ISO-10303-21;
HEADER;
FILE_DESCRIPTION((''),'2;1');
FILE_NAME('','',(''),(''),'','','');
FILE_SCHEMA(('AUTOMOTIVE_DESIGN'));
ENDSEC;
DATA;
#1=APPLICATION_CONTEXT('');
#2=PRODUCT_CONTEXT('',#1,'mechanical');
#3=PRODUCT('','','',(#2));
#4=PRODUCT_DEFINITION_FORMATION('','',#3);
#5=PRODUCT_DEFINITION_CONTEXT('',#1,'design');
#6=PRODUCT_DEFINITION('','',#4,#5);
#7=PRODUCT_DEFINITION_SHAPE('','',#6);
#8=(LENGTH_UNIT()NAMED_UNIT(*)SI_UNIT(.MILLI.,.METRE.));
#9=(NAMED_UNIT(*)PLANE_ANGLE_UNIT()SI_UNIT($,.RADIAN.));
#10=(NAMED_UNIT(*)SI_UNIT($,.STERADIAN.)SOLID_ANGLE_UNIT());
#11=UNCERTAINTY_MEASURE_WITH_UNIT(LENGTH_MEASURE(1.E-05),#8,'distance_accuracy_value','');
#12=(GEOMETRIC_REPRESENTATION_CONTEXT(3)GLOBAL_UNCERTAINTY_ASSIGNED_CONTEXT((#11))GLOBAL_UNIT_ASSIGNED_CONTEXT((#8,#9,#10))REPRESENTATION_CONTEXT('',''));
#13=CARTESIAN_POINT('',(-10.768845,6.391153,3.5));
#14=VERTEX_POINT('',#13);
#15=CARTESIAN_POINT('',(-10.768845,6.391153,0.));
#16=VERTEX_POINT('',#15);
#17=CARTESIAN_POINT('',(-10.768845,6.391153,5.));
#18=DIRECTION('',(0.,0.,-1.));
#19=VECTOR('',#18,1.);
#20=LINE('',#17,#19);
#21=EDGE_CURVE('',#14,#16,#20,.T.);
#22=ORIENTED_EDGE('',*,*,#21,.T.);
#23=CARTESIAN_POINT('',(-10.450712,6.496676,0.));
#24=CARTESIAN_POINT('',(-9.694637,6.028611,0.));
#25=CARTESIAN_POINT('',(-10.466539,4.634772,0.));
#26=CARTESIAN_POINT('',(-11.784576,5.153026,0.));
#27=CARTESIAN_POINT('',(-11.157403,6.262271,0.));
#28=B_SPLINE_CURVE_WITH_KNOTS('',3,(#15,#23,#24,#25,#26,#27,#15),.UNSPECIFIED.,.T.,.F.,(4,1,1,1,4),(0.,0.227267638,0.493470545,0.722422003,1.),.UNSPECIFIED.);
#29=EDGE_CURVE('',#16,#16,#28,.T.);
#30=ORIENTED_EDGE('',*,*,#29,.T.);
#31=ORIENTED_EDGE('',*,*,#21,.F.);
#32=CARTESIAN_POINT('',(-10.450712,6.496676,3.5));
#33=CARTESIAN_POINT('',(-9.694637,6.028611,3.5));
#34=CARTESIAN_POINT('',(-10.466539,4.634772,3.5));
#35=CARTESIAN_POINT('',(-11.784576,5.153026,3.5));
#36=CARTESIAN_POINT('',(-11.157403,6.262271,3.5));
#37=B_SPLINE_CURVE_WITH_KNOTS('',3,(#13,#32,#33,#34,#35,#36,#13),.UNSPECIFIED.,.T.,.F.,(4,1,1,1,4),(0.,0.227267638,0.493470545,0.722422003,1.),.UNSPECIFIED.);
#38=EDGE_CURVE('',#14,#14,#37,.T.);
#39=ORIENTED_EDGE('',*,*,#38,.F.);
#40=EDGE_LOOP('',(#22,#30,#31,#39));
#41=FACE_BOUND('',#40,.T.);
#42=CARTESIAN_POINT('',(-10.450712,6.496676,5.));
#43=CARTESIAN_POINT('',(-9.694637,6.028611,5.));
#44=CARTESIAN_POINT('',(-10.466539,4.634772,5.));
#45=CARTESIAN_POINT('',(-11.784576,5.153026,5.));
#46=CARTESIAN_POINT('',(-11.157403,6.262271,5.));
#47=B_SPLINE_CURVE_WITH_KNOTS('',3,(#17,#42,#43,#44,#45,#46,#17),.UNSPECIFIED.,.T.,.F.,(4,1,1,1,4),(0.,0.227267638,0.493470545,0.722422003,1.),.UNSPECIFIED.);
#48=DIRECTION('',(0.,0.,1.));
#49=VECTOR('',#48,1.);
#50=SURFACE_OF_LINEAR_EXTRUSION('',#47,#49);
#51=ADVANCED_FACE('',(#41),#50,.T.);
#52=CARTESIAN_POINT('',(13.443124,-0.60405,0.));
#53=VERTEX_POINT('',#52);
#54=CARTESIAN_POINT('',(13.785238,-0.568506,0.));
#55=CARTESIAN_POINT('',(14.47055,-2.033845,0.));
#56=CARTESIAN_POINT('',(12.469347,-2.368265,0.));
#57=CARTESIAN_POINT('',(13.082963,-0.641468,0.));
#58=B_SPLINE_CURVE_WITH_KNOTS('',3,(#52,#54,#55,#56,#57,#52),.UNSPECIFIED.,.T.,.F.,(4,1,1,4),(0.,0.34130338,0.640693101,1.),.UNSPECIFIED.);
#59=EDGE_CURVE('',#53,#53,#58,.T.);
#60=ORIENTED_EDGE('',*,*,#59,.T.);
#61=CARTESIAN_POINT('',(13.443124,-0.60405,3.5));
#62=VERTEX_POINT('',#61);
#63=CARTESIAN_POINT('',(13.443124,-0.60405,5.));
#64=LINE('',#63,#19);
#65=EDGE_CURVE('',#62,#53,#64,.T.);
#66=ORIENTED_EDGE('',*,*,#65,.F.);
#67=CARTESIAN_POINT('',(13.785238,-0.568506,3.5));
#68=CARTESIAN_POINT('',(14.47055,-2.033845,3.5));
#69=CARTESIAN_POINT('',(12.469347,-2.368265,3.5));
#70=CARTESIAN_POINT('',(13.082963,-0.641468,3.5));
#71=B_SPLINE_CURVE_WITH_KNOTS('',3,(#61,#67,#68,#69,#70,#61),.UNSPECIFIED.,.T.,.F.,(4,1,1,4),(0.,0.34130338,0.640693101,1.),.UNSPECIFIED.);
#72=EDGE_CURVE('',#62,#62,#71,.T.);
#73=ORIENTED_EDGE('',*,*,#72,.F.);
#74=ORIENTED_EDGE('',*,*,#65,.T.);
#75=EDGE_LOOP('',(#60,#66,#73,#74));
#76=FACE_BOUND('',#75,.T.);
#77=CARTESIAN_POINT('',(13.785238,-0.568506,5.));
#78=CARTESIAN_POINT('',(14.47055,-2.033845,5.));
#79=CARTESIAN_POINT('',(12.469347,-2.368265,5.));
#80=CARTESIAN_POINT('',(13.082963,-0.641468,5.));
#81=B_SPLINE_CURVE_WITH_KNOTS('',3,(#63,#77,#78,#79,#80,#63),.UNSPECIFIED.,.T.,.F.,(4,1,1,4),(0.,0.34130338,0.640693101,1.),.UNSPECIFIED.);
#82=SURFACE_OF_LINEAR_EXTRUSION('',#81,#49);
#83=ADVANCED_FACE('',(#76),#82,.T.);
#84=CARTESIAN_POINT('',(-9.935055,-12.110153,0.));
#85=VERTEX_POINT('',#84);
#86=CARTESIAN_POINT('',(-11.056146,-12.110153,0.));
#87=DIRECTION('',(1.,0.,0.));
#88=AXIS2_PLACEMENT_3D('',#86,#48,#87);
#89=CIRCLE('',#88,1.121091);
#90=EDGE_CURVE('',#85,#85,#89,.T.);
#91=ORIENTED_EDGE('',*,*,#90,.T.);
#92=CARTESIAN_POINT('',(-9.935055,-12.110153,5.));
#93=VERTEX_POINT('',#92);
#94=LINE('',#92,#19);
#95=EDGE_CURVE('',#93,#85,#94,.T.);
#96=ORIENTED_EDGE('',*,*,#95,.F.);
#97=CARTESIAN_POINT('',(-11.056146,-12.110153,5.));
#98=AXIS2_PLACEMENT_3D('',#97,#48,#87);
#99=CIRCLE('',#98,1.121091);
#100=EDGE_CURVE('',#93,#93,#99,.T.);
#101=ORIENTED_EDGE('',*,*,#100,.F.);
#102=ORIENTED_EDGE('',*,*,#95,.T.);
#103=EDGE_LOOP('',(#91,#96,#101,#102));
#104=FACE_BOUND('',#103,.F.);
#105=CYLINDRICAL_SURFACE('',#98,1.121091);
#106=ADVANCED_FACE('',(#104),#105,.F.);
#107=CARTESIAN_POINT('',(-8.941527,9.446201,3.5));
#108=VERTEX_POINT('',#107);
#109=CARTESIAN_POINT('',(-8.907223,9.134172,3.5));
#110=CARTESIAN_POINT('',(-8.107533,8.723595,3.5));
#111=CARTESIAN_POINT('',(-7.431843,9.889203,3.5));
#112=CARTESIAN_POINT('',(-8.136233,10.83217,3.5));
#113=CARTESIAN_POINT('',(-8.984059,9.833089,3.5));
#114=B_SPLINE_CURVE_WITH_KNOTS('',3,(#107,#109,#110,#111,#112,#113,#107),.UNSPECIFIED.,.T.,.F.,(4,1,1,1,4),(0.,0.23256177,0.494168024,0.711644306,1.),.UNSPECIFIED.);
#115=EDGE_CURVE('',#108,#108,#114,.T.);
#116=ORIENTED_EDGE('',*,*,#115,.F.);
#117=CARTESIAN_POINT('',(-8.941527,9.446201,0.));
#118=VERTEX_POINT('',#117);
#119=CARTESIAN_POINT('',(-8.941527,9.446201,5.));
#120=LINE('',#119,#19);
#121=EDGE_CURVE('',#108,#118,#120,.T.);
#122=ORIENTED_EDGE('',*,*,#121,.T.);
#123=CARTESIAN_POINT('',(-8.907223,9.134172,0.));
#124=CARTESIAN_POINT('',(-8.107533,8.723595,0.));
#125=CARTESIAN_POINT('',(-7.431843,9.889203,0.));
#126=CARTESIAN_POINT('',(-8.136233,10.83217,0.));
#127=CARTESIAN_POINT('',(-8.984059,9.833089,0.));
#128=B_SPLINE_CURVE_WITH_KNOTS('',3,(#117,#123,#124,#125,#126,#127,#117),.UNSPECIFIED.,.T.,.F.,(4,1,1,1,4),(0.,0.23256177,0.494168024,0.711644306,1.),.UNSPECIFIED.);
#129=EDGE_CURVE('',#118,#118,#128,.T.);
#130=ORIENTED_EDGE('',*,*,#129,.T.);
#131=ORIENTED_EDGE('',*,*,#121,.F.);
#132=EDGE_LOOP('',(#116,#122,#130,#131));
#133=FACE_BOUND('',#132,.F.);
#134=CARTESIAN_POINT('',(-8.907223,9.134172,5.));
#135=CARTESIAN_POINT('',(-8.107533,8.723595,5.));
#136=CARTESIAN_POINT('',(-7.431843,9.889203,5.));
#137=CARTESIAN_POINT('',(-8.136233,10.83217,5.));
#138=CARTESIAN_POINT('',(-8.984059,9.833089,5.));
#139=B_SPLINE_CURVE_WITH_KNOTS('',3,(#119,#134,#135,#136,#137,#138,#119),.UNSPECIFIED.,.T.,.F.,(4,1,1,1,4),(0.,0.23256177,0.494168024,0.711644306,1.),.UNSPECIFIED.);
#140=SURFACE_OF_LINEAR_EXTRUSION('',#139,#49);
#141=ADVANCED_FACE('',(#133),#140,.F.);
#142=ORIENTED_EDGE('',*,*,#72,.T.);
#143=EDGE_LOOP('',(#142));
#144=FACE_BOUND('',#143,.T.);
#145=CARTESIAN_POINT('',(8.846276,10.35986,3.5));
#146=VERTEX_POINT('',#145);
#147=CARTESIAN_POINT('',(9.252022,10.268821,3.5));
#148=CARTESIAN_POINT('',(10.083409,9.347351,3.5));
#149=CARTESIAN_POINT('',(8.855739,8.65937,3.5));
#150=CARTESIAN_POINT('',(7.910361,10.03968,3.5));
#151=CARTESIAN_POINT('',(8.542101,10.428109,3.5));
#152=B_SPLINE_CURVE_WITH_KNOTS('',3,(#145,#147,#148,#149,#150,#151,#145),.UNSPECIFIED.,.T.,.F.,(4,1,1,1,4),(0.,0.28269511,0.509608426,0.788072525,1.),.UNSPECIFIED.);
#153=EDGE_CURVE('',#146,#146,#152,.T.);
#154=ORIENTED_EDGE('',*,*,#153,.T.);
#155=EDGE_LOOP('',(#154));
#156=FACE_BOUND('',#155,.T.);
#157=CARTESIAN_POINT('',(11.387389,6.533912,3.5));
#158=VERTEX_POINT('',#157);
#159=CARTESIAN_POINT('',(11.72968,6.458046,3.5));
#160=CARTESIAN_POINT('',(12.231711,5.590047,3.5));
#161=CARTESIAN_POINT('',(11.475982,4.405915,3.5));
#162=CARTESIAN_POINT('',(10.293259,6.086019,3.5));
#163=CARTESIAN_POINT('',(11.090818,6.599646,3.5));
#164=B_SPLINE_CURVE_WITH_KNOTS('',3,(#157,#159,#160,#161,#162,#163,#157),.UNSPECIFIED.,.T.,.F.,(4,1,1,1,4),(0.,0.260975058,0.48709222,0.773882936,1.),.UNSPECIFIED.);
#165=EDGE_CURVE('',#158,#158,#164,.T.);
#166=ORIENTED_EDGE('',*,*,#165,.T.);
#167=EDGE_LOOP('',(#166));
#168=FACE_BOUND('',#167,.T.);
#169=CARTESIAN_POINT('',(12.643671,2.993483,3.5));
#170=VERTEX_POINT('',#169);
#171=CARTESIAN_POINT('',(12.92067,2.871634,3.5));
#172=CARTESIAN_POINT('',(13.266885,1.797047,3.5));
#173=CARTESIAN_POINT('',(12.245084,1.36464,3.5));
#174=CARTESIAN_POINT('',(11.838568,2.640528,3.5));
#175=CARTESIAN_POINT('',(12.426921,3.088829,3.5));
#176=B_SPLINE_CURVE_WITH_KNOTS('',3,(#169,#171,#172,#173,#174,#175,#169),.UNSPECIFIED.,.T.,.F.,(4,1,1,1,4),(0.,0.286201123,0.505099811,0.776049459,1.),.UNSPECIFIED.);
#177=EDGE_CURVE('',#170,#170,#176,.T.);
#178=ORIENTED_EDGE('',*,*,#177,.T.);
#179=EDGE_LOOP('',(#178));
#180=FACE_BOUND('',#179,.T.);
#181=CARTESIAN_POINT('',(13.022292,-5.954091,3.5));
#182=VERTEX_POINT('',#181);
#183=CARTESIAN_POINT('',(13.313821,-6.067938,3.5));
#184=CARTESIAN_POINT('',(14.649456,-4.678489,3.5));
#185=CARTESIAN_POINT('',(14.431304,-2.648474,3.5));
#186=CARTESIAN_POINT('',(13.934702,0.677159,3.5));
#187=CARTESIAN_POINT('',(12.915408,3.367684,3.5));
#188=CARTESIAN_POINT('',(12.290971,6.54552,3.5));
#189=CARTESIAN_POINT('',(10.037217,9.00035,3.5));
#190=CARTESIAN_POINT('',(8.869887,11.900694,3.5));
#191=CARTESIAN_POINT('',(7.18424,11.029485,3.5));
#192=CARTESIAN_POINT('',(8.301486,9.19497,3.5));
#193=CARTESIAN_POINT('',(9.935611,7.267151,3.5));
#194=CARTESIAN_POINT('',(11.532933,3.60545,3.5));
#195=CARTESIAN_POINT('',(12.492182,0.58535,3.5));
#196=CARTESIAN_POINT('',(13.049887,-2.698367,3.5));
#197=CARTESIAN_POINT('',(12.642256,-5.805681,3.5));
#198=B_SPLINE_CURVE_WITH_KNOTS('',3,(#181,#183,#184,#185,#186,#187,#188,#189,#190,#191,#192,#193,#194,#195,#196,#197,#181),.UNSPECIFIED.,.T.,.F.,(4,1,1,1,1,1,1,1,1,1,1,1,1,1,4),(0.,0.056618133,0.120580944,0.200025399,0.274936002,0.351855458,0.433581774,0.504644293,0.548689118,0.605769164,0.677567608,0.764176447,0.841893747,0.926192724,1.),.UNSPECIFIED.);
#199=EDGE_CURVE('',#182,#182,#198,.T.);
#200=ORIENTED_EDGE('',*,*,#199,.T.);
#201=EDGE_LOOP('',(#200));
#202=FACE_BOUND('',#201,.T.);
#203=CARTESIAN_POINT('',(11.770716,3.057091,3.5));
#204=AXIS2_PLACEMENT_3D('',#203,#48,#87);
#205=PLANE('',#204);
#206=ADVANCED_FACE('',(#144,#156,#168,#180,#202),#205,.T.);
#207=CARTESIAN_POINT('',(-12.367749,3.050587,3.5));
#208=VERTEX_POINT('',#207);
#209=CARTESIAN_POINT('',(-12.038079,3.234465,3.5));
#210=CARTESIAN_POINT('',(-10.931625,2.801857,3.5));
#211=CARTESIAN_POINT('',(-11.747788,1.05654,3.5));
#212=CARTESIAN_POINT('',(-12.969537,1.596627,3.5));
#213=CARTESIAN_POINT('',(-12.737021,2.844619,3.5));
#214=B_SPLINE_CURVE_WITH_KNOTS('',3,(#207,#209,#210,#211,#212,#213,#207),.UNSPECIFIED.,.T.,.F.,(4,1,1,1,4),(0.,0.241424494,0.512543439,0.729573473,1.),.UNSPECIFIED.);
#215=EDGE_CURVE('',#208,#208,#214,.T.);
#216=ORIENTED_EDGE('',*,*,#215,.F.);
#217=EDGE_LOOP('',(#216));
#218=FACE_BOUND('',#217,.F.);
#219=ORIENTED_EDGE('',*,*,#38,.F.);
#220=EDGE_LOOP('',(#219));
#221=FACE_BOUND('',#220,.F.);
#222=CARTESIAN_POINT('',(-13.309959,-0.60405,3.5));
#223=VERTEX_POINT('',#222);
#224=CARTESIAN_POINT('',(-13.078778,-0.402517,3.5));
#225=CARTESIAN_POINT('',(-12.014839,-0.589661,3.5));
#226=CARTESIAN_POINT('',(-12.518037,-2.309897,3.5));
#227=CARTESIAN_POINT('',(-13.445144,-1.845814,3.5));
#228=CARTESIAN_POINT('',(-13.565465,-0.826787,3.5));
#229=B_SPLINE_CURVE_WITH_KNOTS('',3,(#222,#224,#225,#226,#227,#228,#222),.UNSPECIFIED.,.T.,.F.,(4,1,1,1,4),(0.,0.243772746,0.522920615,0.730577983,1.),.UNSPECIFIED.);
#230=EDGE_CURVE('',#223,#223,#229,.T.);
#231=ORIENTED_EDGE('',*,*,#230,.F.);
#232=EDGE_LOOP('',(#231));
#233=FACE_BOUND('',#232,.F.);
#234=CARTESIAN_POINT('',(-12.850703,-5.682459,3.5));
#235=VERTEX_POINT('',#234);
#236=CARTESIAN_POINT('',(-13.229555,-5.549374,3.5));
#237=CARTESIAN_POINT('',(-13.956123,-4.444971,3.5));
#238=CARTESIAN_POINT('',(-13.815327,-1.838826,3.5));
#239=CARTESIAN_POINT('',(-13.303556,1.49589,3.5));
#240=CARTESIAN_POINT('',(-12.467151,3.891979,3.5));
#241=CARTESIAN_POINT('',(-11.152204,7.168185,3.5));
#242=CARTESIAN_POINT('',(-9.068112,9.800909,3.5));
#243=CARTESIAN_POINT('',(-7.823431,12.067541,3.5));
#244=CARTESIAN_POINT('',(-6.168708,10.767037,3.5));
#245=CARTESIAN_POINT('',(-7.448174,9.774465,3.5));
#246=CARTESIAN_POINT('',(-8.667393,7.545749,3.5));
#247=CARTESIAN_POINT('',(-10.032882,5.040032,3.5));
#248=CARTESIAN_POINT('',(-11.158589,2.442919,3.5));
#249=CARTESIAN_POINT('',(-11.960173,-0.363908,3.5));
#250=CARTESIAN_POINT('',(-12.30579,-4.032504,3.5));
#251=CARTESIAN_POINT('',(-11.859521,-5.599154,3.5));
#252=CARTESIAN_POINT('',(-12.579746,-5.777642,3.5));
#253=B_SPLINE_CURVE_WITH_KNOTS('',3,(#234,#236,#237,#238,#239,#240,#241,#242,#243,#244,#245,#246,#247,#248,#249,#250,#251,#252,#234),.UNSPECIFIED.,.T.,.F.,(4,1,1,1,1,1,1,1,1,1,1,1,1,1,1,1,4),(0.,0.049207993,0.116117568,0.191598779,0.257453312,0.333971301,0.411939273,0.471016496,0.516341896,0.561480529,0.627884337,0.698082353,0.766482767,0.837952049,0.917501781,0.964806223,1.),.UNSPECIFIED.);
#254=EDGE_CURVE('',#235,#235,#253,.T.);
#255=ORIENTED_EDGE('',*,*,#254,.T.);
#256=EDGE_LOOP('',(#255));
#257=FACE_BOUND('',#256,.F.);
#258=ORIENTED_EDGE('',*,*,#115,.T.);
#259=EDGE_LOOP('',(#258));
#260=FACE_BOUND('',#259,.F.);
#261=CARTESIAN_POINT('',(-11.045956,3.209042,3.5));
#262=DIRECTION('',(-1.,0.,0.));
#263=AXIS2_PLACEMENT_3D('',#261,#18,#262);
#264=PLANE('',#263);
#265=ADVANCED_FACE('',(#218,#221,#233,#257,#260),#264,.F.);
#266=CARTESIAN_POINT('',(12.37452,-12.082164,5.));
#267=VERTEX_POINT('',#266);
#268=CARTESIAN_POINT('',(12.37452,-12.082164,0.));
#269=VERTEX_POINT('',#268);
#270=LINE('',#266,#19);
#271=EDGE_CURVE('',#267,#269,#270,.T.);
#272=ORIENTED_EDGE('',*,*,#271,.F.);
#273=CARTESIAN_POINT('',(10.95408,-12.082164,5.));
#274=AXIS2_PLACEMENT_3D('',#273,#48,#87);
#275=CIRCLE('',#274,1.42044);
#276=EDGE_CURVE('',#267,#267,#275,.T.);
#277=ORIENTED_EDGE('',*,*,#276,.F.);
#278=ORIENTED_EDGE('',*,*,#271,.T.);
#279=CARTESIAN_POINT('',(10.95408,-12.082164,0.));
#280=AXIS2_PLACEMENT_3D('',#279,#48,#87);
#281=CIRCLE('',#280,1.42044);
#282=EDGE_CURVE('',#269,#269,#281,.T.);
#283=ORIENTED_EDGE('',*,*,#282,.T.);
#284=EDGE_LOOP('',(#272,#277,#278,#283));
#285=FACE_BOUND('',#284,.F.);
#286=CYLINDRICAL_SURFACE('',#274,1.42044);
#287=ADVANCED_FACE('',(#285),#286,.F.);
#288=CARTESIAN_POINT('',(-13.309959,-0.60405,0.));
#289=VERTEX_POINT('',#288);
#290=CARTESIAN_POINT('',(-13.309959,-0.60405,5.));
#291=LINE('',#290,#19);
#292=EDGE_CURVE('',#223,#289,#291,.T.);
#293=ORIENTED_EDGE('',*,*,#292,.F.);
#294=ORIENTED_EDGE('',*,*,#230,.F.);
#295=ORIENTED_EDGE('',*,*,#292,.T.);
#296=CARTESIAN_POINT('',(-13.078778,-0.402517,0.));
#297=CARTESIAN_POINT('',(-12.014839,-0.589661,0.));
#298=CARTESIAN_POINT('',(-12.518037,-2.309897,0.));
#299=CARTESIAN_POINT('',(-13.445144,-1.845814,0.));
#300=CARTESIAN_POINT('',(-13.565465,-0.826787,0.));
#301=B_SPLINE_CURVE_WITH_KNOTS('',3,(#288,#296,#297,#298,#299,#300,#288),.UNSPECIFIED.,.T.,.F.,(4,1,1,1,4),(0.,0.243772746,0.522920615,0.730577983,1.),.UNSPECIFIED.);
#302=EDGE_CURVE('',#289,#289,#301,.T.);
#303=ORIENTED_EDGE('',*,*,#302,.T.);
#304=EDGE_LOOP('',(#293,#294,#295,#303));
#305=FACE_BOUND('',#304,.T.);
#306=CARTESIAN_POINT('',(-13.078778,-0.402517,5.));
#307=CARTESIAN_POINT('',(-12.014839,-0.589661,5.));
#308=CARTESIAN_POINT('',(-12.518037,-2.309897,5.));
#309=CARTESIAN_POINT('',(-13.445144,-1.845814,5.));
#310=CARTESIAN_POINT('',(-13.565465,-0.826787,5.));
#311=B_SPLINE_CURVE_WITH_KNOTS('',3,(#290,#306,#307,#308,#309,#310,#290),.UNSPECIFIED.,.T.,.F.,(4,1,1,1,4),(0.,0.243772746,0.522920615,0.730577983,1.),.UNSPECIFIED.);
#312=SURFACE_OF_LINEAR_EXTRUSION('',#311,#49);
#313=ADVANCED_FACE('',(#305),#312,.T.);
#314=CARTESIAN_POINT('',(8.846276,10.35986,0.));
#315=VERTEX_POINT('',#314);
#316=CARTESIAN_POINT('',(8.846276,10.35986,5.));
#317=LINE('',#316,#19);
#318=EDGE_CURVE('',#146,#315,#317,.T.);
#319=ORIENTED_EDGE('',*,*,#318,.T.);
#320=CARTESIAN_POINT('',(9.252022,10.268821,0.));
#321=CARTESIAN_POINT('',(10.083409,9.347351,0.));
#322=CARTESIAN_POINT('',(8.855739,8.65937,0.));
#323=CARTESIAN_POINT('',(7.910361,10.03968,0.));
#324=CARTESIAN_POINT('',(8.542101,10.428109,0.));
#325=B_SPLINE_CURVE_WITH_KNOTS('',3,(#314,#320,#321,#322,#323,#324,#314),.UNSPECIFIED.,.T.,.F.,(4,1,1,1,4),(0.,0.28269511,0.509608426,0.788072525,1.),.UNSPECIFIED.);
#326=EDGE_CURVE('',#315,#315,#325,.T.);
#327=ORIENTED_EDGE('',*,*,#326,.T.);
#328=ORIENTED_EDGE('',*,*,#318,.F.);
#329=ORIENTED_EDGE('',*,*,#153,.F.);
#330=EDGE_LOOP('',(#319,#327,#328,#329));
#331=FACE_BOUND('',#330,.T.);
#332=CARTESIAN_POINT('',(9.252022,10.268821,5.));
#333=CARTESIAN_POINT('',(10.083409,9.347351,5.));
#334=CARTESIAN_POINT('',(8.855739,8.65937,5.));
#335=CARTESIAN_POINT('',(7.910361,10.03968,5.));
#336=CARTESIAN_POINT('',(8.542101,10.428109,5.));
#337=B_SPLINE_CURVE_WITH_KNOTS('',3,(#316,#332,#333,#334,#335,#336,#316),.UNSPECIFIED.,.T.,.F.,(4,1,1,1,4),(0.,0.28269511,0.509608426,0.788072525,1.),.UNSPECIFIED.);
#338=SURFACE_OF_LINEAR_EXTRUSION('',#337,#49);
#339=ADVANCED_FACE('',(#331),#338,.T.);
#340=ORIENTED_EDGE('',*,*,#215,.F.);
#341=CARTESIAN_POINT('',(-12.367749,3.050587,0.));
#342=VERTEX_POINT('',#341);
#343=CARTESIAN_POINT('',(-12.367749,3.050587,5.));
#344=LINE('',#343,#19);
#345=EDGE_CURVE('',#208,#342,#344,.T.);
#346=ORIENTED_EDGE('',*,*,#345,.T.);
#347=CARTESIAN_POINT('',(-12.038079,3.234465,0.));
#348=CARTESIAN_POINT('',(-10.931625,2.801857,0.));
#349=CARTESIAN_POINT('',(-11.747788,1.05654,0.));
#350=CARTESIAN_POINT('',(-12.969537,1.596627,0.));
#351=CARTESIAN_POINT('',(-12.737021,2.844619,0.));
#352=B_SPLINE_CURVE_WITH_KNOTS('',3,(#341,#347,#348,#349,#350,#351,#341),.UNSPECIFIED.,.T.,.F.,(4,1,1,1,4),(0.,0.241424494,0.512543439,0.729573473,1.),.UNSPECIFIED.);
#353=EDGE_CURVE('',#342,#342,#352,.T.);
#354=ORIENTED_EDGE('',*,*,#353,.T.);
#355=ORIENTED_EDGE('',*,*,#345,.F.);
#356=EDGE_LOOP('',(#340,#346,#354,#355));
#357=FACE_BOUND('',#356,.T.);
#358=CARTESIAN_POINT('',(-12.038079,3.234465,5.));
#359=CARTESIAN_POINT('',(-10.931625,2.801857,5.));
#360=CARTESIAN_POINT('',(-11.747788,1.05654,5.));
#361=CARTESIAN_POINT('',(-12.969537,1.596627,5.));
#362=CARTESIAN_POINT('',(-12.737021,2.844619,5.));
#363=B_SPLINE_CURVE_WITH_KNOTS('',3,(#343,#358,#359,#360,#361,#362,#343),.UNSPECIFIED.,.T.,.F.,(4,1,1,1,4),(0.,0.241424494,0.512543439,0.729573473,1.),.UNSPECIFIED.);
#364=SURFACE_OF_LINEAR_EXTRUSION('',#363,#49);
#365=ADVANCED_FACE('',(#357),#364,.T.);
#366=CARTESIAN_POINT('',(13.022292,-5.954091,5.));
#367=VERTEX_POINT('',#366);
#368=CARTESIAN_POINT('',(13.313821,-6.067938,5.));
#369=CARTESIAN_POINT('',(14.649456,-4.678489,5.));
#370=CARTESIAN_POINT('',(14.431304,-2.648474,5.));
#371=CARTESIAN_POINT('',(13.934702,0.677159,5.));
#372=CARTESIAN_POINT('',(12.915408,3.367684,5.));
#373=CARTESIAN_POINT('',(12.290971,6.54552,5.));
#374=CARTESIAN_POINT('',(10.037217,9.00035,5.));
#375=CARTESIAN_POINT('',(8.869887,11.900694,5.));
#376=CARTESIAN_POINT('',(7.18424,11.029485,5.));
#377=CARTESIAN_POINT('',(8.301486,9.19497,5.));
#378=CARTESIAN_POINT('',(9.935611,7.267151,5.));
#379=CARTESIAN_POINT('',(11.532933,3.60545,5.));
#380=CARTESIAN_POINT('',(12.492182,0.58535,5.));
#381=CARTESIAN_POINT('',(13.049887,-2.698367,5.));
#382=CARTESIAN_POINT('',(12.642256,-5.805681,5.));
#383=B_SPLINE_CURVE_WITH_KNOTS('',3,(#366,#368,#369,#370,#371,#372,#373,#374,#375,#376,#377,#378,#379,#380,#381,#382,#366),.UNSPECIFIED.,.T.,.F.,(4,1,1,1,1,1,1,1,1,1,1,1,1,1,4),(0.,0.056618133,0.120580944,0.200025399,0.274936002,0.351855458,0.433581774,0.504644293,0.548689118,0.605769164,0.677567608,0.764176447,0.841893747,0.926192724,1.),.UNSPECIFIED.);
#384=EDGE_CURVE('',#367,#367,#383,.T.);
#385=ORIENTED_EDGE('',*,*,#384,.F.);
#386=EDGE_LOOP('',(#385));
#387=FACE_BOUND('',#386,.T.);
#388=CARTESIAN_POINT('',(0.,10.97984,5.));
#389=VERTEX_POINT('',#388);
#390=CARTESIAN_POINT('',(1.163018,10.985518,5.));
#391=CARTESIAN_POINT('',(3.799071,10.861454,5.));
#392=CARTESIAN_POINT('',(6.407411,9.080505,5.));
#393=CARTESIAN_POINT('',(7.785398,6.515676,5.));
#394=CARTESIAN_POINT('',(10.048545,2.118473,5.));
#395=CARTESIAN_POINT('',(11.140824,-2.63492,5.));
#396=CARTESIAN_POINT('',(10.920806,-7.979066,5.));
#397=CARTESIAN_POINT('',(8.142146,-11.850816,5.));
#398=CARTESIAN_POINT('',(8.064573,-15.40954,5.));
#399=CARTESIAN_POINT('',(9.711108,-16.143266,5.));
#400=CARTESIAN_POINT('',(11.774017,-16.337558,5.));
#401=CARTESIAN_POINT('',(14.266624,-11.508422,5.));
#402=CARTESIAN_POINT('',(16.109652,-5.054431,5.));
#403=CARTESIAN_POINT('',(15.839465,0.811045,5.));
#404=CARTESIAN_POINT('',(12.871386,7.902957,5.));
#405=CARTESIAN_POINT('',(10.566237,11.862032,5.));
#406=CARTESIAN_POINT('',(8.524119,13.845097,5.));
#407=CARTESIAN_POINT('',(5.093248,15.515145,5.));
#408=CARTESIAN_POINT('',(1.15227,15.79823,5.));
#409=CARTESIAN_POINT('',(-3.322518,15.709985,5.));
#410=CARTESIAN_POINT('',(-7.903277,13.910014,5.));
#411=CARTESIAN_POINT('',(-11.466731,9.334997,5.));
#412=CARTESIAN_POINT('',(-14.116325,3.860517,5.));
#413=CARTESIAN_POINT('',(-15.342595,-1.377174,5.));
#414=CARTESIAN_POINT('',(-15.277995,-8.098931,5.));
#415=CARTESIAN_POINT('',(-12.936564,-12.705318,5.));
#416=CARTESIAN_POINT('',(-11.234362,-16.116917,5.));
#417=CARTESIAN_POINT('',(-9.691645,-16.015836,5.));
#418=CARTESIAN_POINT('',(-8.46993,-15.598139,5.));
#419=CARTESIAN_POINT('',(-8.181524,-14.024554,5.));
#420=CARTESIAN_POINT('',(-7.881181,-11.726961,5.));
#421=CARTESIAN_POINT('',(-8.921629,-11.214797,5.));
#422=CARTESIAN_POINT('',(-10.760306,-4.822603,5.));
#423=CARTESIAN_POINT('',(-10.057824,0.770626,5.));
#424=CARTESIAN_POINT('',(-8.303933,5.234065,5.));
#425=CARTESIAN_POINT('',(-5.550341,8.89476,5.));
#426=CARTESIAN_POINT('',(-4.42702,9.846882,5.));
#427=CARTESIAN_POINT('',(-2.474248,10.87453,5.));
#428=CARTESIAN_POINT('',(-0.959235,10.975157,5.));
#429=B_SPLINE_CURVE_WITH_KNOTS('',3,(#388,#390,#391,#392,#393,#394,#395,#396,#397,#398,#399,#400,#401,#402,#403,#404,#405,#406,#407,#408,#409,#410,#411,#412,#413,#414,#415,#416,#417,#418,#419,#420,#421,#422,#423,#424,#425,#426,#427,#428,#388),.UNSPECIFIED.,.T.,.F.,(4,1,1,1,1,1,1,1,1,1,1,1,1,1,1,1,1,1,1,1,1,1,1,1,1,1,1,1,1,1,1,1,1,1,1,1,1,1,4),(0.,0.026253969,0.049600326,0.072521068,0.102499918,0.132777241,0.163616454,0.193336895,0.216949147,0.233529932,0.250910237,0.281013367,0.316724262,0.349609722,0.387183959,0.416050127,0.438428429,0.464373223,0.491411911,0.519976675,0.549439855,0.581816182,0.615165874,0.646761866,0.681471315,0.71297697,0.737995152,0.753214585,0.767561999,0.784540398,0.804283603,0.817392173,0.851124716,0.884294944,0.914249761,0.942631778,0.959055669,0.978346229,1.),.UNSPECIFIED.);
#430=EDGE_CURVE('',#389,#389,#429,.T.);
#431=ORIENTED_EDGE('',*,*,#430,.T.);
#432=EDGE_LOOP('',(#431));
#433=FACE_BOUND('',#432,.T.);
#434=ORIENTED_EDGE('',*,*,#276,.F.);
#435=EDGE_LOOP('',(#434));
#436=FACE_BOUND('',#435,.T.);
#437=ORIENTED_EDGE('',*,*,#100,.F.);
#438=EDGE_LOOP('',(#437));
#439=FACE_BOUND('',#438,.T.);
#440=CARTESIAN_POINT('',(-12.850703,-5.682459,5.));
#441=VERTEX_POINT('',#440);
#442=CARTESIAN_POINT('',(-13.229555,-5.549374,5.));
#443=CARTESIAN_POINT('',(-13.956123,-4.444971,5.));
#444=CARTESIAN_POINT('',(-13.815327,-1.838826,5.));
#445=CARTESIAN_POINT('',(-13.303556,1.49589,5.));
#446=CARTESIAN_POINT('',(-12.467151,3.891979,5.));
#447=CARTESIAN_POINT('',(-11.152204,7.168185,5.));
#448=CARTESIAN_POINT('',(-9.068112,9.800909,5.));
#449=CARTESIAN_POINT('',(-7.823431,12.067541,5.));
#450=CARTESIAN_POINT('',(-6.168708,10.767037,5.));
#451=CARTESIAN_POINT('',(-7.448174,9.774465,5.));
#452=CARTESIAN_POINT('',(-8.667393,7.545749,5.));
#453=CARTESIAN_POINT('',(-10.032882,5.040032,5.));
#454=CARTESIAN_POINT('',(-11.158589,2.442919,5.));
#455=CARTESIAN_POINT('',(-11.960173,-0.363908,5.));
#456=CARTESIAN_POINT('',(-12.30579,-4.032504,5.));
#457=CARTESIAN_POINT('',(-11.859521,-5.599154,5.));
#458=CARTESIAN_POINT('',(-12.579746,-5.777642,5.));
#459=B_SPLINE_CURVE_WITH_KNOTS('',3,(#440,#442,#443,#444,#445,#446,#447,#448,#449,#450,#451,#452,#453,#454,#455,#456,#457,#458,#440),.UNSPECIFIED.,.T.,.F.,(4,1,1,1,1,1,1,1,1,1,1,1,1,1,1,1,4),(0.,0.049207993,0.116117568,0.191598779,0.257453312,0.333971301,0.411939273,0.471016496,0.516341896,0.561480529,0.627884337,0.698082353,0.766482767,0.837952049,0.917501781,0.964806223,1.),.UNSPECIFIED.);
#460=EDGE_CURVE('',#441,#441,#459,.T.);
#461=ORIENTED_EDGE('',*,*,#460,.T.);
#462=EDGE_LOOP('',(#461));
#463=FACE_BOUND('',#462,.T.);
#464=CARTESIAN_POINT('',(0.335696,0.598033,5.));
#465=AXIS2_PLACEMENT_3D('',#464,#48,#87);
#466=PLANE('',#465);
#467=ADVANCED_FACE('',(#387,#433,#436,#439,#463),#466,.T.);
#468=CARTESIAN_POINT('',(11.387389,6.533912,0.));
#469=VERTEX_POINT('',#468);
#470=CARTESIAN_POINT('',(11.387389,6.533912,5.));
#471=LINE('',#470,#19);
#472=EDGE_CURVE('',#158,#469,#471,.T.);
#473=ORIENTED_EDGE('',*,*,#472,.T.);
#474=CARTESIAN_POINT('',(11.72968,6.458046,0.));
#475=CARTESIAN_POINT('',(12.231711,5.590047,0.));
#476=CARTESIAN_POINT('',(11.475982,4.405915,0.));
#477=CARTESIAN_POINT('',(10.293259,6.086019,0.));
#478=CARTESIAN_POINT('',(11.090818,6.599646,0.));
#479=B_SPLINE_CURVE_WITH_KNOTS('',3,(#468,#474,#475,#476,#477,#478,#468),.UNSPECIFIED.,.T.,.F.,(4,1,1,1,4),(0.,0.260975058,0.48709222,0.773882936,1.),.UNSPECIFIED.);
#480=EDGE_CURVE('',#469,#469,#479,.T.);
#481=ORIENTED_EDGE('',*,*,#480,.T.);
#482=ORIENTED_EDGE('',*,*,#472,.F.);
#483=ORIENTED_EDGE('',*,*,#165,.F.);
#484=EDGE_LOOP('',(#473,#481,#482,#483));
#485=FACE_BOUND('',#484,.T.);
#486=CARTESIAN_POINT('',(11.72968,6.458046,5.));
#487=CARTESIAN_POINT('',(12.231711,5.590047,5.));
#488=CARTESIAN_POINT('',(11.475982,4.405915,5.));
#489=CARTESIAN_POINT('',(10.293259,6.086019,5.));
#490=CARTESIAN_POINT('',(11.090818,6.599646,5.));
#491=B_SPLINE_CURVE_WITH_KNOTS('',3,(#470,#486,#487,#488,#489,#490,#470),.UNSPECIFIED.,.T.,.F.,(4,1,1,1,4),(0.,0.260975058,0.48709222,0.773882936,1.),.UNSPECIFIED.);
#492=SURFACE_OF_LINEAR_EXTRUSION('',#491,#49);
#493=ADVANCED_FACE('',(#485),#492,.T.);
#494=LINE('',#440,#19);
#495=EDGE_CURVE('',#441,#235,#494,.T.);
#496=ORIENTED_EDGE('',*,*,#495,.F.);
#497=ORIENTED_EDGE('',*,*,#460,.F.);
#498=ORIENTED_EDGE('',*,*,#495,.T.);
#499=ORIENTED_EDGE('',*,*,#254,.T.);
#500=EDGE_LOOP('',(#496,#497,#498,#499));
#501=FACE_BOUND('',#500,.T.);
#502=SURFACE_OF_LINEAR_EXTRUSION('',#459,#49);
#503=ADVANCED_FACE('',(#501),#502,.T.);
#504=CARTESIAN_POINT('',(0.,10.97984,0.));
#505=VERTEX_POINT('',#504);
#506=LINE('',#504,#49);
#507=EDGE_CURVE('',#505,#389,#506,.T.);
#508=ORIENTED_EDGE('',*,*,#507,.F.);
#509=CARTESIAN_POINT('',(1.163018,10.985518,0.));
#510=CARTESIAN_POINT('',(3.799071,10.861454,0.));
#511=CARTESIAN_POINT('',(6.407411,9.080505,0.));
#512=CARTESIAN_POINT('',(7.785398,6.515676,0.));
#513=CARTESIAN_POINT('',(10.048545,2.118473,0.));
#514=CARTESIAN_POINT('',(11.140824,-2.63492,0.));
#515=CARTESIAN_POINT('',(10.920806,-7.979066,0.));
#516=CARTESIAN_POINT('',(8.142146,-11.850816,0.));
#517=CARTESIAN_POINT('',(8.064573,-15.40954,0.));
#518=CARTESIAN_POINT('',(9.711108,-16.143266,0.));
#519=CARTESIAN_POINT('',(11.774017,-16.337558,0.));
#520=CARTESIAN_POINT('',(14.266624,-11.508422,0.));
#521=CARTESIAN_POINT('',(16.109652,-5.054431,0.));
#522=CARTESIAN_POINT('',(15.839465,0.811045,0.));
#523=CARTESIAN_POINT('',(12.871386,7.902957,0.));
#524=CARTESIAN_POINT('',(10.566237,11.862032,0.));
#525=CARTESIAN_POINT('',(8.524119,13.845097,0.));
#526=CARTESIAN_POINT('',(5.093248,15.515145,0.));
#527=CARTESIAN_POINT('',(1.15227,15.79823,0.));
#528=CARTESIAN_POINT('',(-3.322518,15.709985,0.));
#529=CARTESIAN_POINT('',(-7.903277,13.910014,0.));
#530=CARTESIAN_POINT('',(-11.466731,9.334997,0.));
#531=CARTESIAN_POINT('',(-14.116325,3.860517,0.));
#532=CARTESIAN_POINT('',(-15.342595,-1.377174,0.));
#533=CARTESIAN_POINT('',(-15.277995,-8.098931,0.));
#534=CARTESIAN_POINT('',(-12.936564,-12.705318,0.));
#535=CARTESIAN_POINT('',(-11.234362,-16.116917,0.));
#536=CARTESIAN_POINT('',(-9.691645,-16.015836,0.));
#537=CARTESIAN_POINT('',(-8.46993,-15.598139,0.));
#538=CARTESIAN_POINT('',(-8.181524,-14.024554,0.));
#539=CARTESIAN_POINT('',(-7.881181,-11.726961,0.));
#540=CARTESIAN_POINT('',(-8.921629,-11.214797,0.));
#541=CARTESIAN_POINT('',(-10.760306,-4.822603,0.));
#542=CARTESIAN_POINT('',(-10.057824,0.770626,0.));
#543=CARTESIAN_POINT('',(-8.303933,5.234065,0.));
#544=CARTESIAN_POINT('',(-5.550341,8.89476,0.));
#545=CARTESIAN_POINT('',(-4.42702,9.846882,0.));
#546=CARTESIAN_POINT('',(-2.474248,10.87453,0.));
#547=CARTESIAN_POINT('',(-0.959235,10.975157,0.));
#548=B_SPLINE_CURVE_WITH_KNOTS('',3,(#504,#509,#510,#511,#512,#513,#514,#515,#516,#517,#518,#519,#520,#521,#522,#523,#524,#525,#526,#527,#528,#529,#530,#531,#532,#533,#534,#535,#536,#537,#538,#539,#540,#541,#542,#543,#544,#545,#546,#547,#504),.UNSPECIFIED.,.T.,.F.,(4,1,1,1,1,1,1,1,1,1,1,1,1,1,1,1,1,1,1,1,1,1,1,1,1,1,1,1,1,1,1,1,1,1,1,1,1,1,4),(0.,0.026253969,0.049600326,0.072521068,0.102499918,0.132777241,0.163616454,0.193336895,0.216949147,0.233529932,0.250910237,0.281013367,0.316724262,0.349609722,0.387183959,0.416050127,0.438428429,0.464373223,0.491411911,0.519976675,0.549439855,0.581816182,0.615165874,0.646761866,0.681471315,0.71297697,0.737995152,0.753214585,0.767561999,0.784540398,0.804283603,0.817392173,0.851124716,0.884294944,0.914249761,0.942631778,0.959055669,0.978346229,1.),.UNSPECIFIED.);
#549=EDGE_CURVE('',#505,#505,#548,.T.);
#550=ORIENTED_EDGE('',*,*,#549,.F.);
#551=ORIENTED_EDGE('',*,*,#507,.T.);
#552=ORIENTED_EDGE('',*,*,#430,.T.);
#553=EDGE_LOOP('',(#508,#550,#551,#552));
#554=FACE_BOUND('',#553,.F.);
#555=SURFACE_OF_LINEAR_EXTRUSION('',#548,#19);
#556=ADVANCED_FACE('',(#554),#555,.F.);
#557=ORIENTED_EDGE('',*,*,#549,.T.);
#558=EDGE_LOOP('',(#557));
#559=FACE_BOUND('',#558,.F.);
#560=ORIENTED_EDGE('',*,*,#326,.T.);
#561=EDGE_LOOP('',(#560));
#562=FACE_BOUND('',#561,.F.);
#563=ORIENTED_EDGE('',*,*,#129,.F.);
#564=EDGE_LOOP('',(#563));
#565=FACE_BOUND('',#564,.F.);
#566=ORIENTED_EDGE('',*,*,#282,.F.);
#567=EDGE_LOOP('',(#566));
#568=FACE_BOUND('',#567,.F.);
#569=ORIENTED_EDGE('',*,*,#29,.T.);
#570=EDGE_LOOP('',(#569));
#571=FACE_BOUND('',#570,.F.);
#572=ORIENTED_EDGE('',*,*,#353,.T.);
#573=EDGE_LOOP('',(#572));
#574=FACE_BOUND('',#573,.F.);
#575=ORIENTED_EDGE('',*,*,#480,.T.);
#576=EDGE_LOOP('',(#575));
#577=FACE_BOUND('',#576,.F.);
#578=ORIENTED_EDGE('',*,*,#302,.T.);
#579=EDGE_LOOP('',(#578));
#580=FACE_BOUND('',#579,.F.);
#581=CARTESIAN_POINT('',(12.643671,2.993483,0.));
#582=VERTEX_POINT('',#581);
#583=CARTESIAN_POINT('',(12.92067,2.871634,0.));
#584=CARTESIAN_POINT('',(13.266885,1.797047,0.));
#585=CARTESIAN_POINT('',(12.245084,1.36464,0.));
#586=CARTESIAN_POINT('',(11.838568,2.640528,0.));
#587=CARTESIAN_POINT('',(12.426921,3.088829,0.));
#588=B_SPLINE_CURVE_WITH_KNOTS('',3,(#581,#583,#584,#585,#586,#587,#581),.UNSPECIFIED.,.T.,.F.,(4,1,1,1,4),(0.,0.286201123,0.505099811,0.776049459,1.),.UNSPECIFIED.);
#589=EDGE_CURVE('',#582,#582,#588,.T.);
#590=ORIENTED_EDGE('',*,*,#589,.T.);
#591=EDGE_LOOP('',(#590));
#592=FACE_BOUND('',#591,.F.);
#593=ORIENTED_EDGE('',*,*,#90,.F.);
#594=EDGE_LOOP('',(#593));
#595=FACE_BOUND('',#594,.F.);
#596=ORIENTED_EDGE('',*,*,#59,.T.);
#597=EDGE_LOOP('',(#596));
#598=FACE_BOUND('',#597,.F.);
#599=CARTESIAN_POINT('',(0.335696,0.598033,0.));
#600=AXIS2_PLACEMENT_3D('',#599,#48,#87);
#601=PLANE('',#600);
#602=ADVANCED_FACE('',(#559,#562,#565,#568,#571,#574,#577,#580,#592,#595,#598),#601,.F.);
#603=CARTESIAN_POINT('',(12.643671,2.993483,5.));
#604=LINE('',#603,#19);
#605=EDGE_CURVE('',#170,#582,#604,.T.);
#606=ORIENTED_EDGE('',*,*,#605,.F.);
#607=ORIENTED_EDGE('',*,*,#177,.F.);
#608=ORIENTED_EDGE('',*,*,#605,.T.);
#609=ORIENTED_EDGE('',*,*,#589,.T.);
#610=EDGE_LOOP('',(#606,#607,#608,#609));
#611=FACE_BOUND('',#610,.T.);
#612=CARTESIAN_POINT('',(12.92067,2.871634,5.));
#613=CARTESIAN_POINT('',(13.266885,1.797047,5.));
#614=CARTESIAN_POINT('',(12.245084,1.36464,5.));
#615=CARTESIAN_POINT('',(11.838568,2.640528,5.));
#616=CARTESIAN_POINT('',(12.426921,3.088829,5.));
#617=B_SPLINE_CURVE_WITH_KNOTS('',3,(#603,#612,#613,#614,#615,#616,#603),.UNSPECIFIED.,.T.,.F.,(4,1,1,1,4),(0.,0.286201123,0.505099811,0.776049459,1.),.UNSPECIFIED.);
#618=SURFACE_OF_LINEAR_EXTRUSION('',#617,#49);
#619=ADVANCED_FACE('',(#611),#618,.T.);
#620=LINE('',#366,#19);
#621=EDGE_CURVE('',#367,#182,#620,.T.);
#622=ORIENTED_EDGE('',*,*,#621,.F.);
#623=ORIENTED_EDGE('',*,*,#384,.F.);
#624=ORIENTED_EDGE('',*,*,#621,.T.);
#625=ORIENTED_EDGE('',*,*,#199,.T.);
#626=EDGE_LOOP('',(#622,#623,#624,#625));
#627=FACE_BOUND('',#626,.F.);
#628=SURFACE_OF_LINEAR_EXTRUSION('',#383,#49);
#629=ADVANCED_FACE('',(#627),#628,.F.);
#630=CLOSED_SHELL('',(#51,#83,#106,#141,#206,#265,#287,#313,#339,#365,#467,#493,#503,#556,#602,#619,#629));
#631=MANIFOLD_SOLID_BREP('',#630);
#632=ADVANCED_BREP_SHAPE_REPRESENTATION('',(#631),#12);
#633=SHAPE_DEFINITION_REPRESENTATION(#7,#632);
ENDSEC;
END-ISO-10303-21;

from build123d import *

# Parameters (mm, degrees)
F1_DEPTH = 5
F2_R     = 1.1210906937
F2_R_2   = 1.4204400746
F3_DEPTH = 5
F4_DEPTH = 1.5


with BuildPart() as f1:
    # F0 (on Top) → F1 (new body)
    with BuildSketch(Plane.XY):
        with BuildLine():
            add(Edge.make_bspline(
                [(0, 10.9798396006), (1.1630179106, 10.9855175231), (3.7990714785, 10.861453918), (6.4074106284, 9.0805046732), (7.7853984113, 6.5156755547), (10.0485454903, 2.1184729667), (11.1408236464, -2.6349197188), (10.9208062466, -7.9790657951), (8.1421456312, -11.850816405), (8.0645733598, -15.409539595), (9.7111076238, -16.1432662194), (11.7740174891, -16.3375583169), (14.2666242955, -11.508422251), (16.1096517267, -5.054431041), (15.8394654063, 0.8110447257), (12.8713863213, 7.9029569948), (10.5662370192, 11.8620322378), (8.5241190672, 13.8450966047), (5.0932483167, 15.5151446909), (1.1522703494, 15.7982298069), (-3.3225175305, 15.7099851889), (-7.9032767726, 13.9100138273), (-11.4667307417, 9.33499708), (-14.1163252728, 3.8605170546), (-15.3425953557, -1.3771737735), (-15.2779953015, -8.0989308787), (-12.936563617, -12.7053179877), (-11.234361686, -16.1169172597), (-9.6916446426, -16.0158357338), (-8.4699301196, -15.5981386774), (-8.1815235956, -14.0245539128), (-7.8811812877, -11.726960836), (-8.9216293181, -11.214796969), (-10.7603064824, -4.8226033139), (-10.0578239277, 0.7706257388), (-8.3039333565, 5.234064681), (-5.5503407995, 8.8947604058), (-4.4270204324, 9.8468818001), (-2.4742484476, 10.8745301352), (-0.9592349006, 10.9751565589), (0, 10.9798396006)],
                knots=[0, 0, 0, 0, 0.0262539687, 0.0496003257, 0.0725210676, 0.1024999178, 0.1327772413, 0.1636164541, 0.1933368948, 0.2169491466, 0.2335299323, 0.250910237, 0.2810133673, 0.3167242621, 0.3496097215, 0.3871839587, 0.4160501265, 0.4384284288, 0.4643732228, 0.4914119107, 0.5199766752, 0.5494398551, 0.5818161815, 0.6151658743, 0.6467618662, 0.6814713148, 0.7129769703, 0.7379951524, 0.7532145854, 0.7675619991, 0.7845403975, 0.8042836028, 0.8173921726, 0.8511247156, 0.8842949441, 0.9142497606, 0.9426317777, 0.9590556695, 0.9783462294, 1, 1, 1, 1], degree=3))
        make_face()
    extrude(amount=F1_DEPTH)

    # F2 (on face) → F3 (cut)
    with BuildSketch(Plane.XY.offset(5)):
        with Locations((-11.0561456531, -12.1101532131)):
            Circle(F2_R)
        with Locations((10.9540801495, -12.0821641758)):
            Circle(F2_R_2)
        with BuildLine():
            add(Edge.make_bspline(
                [(13.4431235492, -0.6040497101), (13.7852378863, -0.5685058402), (14.4705504004, -2.0338446788), (12.4693465348, -2.3682649673), (13.0829629153, -0.6414684947), (13.4431235492, -0.6040497101)],
                knots=[0, 0, 0, 0, 0.3413033798, 0.6406931008, 1, 1, 1, 1], degree=3))
        make_face()
        with BuildLine():
            add(Edge.make_bspline(
                [(12.6436706632, 2.9934830964), (12.9206696742, 2.871633662), (13.2668845239, 1.7970472454), (12.2450844293, 1.3646397831), (11.838568252, 2.6405281368), (12.4269207156, 3.0888294964), (12.6436706632, 2.9934830964)],
                knots=[0, 0, 0, 0, 0.2862011233, 0.5050998107, 0.7760494586, 1, 1, 1, 1], degree=3))
        make_face()
        with BuildLine():
            add(Edge.make_bspline(
                [(11.3873891532, 6.533912383), (11.729679603, 6.4580456158), (12.2317111977, 5.5900467789), (11.4759815781, 4.4059146571), (10.2932593495, 6.0860193588), (11.0908178558, 6.5996457554), (11.3873891532, 6.533912383)],
                knots=[0, 0, 0, 0, 0.2609750579, 0.4870922202, 0.773882936, 1, 1, 1, 1], degree=3))
        make_face()
        with BuildLine():
            add(Edge.make_bspline(
                [(8.8462755084, 10.3598600253), (9.2520216357, 10.2688208287), (10.0834088515, 9.347351137), (8.8557387603, 8.6593697269), (7.9103613977, 10.0396798814), (8.5421006249, 10.4281091969), (8.8462755084, 10.3598600253)],
                knots=[0, 0, 0, 0, 0.2826951098, 0.509608426, 0.7880725254, 1, 1, 1, 1], degree=3))
        make_face()
        with BuildLine():
            add(Edge.make_bspline(
                [(-8.9415265247, 9.4462009147), (-8.9072234567, 9.1341717857), (-8.1075334704, 8.7235951807), (-7.4318426166, 9.8892026545), (-8.1362331055, 10.8321703803), (-8.9840592461, 9.8330889916), (-8.9415265247, 9.4462009147)],
                knots=[0, 0, 0, 0, 0.2325617698, 0.4941680238, 0.7116443065, 1, 1, 1, 1], degree=3))
        make_face()
        with BuildLine():
            add(Edge.make_bspline(
                [(-10.7688447461, 6.3911532052), (-10.4507119412, 6.4966758244), (-9.6946369376, 6.0286114838), (-10.4665391404, 4.634772397), (-11.7845755387, 5.1530256988), (-11.1574027795, 6.2622709874), (-10.7688447461, 6.3911532052)],
                knots=[0, 0, 0, 0, 0.2272676383, 0.493470545, 0.7224220035, 1, 1, 1, 1], degree=3))
        make_face()
        with BuildLine():
            add(Edge.make_bspline(
                [(-12.3677486554, 3.0505869072), (-12.0380787947, 3.2344654989), (-10.9316252027, 2.801856742), (-11.7477880611, 1.0565404094), (-12.9695372914, 1.5966269556), (-12.7370213576, 2.8446192027), (-12.3677486554, 3.0505869072)],
                knots=[0, 0, 0, 0, 0.2414244943, 0.5125434392, 0.7295734733, 1, 1, 1, 1], degree=3))
        make_face()
        with BuildLine():
            add(Edge.make_bspline(
                [(-13.3099593222, -0.6040497101), (-13.0787777112, -0.4025172139), (-12.0148388516, -0.5896614428), (-12.5180371452, -2.3098974345), (-13.4451435682, -1.845814359), (-13.565465391, -0.8267870447), (-13.3099593222, -0.6040497101)],
                knots=[0, 0, 0, 0, 0.2437727458, 0.5229206154, 0.7305779828, 1, 1, 1, 1], degree=3))
        make_face()
    extrude(amount=-F3_DEPTH, mode=Mode.SUBTRACT)

    # F2 (on face) → F4 (cut)
    with BuildSketch(Plane.XY.offset(5)):
        with BuildLine():
            add(Edge.make_bspline(
                [(-12.8507027403, -5.6824591011), (-13.2295548702, -5.5493744269), (-13.9561230589, -4.4449706055), (-13.8153274234, -1.8388255183), (-13.3035555861, 1.4958903183), (-12.4671509218, 3.8919785003), (-11.1522042573, 7.1681853039), (-9.0681124256, 9.8009090351), (-7.8234311234, 12.0675410401), (-6.1687084623, 10.7670365376), (-7.4481741439, 9.7744647622), (-8.6673934986, 7.545749132), (-10.0328824089, 5.0400321126), (-11.1585885181, 2.4429194227), (-11.9601729911, -0.3639079962), (-12.3057902722, -4.0325044302), (-11.8595207847, -5.5991535913), (-12.579745999, -5.7776418565), (-12.8507027403, -5.6824591011)],
                knots=[0, 0, 0, 0, 0.0492079927, 0.1161175684, 0.1915987786, 0.2574533117, 0.3339713007, 0.4119392726, 0.4710164964, 0.5163418961, 0.561480529, 0.6278843368, 0.6980823534, 0.7664827671, 0.8379520491, 0.9175017807, 0.9648062231, 1, 1, 1, 1], degree=3))
        make_face()
        with BuildLine():
            add(Edge.make_bspline(
                [(-13.3099593222, -0.6040497101), (-13.0787777112, -0.4025172139), (-12.0148388516, -0.5896614428), (-12.5180371452, -2.3098974345), (-13.4451435682, -1.845814359), (-13.565465391, -0.8267870447), (-13.3099593222, -0.6040497101)],
                knots=[0, 0, 0, 0, 0.2437727458, 0.5229206154, 0.7305779828, 1, 1, 1, 1], degree=3))
        make_face(mode=Mode.SUBTRACT)
        with BuildLine():
            add(Edge.make_bspline(
                [(-12.3677486554, 3.0505869072), (-12.0380787947, 3.2344654989), (-10.9316252027, 2.801856742), (-11.7477880611, 1.0565404094), (-12.9695372914, 1.5966269556), (-12.7370213576, 2.8446192027), (-12.3677486554, 3.0505869072)],
                knots=[0, 0, 0, 0, 0.2414244943, 0.5125434392, 0.7295734733, 1, 1, 1, 1], degree=3))
        make_face(mode=Mode.SUBTRACT)
        with BuildLine():
            add(Edge.make_bspline(
                [(-10.7688447461, 6.3911532052), (-10.4507119412, 6.4966758244), (-9.6946369376, 6.0286114838), (-10.4665391404, 4.634772397), (-11.7845755387, 5.1530256988), (-11.1574027795, 6.2622709874), (-10.7688447461, 6.3911532052)],
                knots=[0, 0, 0, 0, 0.2272676383, 0.493470545, 0.7224220035, 1, 1, 1, 1], degree=3))
        make_face(mode=Mode.SUBTRACT)
        with BuildLine():
            add(Edge.make_bspline(
                [(-8.9415265247, 9.4462009147), (-8.9072234567, 9.1341717857), (-8.1075334704, 8.7235951807), (-7.4318426166, 9.8892026545), (-8.1362331055, 10.8321703803), (-8.9840592461, 9.8330889916), (-8.9415265247, 9.4462009147)],
                knots=[0, 0, 0, 0, 0.2325617698, 0.4941680238, 0.7116443065, 1, 1, 1, 1], degree=3))
        make_face(mode=Mode.SUBTRACT)
        with BuildLine():
            add(Edge.make_bspline(
                [(13.0222924054, -5.9540914372), (13.3138212731, -6.0679380515), (14.6494561734, -4.6784888823), (14.4313042429, -2.6484739312), (13.9347019965, 0.6771585612), (12.9154080015, 3.367684474), (12.2909710558, 6.5455201076), (10.0372174736, 9.0003496489), (8.86988746, 11.9006944643), (7.1842403925, 11.0294850415), (8.3014863195, 9.1949698332), (9.9356107452, 7.2671510783), (11.5329327191, 3.6054502068), (12.4921820445, 0.5853495755), (13.0498867716, -2.6983665407), (12.6422559998, -5.8056812353), (13.0222924054, -5.9540914372)],
                knots=[0, 0, 0, 0, 0.056618133, 0.1205809442, 0.2000253985, 0.2749360015, 0.3518554581, 0.433581774, 0.504644293, 0.5486891178, 0.6057691638, 0.6775676083, 0.7641764473, 0.8418937474, 0.9261927235, 1, 1, 1, 1], degree=3))
        make_face()
        with BuildLine():
            add(Edge.make_bspline(
                [(13.4431235492, -0.6040497101), (13.7852378863, -0.5685058402), (14.4705504004, -2.0338446788), (12.4693465348, -2.3682649673), (13.0829629153, -0.6414684947), (13.4431235492, -0.6040497101)],
                knots=[0, 0, 0, 0, 0.3413033798, 0.6406931008, 1, 1, 1, 1], degree=3))
        make_face(mode=Mode.SUBTRACT)
        with BuildLine():
            add(Edge.make_bspline(
                [(12.6436706632, 2.9934830964), (12.9206696742, 2.871633662), (13.2668845239, 1.7970472454), (12.2450844293, 1.3646397831), (11.838568252, 2.6405281368), (12.4269207156, 3.0888294964), (12.6436706632, 2.9934830964)],
                knots=[0, 0, 0, 0, 0.2862011233, 0.5050998107, 0.7760494586, 1, 1, 1, 1], degree=3))
        make_face(mode=Mode.SUBTRACT)
        with BuildLine():
            add(Edge.make_bspline(
                [(11.3873891532, 6.533912383), (11.729679603, 6.4580456158), (12.2317111977, 5.5900467789), (11.4759815781, 4.4059146571), (10.2932593495, 6.0860193588), (11.0908178558, 6.5996457554), (11.3873891532, 6.533912383)],
                knots=[0, 0, 0, 0, 0.2609750579, 0.4870922202, 0.773882936, 1, 1, 1, 1], degree=3))
        make_face(mode=Mode.SUBTRACT)
        with BuildLine():
            add(Edge.make_bspline(
                [(8.8462755084, 10.3598600253), (9.2520216357, 10.2688208287), (10.0834088515, 9.347351137), (8.8557387603, 8.6593697269), (7.9103613977, 10.0396798814), (8.5421006249, 10.4281091969), (8.8462755084, 10.3598600253)],
                knots=[0, 0, 0, 0, 0.2826951098, 0.509608426, 0.7880725254, 1, 1, 1, 1], degree=3))
        make_face(mode=Mode.SUBTRACT)
    extrude(amount=-F4_DEPTH, mode=Mode.SUBTRACT)


solid = f1.part
